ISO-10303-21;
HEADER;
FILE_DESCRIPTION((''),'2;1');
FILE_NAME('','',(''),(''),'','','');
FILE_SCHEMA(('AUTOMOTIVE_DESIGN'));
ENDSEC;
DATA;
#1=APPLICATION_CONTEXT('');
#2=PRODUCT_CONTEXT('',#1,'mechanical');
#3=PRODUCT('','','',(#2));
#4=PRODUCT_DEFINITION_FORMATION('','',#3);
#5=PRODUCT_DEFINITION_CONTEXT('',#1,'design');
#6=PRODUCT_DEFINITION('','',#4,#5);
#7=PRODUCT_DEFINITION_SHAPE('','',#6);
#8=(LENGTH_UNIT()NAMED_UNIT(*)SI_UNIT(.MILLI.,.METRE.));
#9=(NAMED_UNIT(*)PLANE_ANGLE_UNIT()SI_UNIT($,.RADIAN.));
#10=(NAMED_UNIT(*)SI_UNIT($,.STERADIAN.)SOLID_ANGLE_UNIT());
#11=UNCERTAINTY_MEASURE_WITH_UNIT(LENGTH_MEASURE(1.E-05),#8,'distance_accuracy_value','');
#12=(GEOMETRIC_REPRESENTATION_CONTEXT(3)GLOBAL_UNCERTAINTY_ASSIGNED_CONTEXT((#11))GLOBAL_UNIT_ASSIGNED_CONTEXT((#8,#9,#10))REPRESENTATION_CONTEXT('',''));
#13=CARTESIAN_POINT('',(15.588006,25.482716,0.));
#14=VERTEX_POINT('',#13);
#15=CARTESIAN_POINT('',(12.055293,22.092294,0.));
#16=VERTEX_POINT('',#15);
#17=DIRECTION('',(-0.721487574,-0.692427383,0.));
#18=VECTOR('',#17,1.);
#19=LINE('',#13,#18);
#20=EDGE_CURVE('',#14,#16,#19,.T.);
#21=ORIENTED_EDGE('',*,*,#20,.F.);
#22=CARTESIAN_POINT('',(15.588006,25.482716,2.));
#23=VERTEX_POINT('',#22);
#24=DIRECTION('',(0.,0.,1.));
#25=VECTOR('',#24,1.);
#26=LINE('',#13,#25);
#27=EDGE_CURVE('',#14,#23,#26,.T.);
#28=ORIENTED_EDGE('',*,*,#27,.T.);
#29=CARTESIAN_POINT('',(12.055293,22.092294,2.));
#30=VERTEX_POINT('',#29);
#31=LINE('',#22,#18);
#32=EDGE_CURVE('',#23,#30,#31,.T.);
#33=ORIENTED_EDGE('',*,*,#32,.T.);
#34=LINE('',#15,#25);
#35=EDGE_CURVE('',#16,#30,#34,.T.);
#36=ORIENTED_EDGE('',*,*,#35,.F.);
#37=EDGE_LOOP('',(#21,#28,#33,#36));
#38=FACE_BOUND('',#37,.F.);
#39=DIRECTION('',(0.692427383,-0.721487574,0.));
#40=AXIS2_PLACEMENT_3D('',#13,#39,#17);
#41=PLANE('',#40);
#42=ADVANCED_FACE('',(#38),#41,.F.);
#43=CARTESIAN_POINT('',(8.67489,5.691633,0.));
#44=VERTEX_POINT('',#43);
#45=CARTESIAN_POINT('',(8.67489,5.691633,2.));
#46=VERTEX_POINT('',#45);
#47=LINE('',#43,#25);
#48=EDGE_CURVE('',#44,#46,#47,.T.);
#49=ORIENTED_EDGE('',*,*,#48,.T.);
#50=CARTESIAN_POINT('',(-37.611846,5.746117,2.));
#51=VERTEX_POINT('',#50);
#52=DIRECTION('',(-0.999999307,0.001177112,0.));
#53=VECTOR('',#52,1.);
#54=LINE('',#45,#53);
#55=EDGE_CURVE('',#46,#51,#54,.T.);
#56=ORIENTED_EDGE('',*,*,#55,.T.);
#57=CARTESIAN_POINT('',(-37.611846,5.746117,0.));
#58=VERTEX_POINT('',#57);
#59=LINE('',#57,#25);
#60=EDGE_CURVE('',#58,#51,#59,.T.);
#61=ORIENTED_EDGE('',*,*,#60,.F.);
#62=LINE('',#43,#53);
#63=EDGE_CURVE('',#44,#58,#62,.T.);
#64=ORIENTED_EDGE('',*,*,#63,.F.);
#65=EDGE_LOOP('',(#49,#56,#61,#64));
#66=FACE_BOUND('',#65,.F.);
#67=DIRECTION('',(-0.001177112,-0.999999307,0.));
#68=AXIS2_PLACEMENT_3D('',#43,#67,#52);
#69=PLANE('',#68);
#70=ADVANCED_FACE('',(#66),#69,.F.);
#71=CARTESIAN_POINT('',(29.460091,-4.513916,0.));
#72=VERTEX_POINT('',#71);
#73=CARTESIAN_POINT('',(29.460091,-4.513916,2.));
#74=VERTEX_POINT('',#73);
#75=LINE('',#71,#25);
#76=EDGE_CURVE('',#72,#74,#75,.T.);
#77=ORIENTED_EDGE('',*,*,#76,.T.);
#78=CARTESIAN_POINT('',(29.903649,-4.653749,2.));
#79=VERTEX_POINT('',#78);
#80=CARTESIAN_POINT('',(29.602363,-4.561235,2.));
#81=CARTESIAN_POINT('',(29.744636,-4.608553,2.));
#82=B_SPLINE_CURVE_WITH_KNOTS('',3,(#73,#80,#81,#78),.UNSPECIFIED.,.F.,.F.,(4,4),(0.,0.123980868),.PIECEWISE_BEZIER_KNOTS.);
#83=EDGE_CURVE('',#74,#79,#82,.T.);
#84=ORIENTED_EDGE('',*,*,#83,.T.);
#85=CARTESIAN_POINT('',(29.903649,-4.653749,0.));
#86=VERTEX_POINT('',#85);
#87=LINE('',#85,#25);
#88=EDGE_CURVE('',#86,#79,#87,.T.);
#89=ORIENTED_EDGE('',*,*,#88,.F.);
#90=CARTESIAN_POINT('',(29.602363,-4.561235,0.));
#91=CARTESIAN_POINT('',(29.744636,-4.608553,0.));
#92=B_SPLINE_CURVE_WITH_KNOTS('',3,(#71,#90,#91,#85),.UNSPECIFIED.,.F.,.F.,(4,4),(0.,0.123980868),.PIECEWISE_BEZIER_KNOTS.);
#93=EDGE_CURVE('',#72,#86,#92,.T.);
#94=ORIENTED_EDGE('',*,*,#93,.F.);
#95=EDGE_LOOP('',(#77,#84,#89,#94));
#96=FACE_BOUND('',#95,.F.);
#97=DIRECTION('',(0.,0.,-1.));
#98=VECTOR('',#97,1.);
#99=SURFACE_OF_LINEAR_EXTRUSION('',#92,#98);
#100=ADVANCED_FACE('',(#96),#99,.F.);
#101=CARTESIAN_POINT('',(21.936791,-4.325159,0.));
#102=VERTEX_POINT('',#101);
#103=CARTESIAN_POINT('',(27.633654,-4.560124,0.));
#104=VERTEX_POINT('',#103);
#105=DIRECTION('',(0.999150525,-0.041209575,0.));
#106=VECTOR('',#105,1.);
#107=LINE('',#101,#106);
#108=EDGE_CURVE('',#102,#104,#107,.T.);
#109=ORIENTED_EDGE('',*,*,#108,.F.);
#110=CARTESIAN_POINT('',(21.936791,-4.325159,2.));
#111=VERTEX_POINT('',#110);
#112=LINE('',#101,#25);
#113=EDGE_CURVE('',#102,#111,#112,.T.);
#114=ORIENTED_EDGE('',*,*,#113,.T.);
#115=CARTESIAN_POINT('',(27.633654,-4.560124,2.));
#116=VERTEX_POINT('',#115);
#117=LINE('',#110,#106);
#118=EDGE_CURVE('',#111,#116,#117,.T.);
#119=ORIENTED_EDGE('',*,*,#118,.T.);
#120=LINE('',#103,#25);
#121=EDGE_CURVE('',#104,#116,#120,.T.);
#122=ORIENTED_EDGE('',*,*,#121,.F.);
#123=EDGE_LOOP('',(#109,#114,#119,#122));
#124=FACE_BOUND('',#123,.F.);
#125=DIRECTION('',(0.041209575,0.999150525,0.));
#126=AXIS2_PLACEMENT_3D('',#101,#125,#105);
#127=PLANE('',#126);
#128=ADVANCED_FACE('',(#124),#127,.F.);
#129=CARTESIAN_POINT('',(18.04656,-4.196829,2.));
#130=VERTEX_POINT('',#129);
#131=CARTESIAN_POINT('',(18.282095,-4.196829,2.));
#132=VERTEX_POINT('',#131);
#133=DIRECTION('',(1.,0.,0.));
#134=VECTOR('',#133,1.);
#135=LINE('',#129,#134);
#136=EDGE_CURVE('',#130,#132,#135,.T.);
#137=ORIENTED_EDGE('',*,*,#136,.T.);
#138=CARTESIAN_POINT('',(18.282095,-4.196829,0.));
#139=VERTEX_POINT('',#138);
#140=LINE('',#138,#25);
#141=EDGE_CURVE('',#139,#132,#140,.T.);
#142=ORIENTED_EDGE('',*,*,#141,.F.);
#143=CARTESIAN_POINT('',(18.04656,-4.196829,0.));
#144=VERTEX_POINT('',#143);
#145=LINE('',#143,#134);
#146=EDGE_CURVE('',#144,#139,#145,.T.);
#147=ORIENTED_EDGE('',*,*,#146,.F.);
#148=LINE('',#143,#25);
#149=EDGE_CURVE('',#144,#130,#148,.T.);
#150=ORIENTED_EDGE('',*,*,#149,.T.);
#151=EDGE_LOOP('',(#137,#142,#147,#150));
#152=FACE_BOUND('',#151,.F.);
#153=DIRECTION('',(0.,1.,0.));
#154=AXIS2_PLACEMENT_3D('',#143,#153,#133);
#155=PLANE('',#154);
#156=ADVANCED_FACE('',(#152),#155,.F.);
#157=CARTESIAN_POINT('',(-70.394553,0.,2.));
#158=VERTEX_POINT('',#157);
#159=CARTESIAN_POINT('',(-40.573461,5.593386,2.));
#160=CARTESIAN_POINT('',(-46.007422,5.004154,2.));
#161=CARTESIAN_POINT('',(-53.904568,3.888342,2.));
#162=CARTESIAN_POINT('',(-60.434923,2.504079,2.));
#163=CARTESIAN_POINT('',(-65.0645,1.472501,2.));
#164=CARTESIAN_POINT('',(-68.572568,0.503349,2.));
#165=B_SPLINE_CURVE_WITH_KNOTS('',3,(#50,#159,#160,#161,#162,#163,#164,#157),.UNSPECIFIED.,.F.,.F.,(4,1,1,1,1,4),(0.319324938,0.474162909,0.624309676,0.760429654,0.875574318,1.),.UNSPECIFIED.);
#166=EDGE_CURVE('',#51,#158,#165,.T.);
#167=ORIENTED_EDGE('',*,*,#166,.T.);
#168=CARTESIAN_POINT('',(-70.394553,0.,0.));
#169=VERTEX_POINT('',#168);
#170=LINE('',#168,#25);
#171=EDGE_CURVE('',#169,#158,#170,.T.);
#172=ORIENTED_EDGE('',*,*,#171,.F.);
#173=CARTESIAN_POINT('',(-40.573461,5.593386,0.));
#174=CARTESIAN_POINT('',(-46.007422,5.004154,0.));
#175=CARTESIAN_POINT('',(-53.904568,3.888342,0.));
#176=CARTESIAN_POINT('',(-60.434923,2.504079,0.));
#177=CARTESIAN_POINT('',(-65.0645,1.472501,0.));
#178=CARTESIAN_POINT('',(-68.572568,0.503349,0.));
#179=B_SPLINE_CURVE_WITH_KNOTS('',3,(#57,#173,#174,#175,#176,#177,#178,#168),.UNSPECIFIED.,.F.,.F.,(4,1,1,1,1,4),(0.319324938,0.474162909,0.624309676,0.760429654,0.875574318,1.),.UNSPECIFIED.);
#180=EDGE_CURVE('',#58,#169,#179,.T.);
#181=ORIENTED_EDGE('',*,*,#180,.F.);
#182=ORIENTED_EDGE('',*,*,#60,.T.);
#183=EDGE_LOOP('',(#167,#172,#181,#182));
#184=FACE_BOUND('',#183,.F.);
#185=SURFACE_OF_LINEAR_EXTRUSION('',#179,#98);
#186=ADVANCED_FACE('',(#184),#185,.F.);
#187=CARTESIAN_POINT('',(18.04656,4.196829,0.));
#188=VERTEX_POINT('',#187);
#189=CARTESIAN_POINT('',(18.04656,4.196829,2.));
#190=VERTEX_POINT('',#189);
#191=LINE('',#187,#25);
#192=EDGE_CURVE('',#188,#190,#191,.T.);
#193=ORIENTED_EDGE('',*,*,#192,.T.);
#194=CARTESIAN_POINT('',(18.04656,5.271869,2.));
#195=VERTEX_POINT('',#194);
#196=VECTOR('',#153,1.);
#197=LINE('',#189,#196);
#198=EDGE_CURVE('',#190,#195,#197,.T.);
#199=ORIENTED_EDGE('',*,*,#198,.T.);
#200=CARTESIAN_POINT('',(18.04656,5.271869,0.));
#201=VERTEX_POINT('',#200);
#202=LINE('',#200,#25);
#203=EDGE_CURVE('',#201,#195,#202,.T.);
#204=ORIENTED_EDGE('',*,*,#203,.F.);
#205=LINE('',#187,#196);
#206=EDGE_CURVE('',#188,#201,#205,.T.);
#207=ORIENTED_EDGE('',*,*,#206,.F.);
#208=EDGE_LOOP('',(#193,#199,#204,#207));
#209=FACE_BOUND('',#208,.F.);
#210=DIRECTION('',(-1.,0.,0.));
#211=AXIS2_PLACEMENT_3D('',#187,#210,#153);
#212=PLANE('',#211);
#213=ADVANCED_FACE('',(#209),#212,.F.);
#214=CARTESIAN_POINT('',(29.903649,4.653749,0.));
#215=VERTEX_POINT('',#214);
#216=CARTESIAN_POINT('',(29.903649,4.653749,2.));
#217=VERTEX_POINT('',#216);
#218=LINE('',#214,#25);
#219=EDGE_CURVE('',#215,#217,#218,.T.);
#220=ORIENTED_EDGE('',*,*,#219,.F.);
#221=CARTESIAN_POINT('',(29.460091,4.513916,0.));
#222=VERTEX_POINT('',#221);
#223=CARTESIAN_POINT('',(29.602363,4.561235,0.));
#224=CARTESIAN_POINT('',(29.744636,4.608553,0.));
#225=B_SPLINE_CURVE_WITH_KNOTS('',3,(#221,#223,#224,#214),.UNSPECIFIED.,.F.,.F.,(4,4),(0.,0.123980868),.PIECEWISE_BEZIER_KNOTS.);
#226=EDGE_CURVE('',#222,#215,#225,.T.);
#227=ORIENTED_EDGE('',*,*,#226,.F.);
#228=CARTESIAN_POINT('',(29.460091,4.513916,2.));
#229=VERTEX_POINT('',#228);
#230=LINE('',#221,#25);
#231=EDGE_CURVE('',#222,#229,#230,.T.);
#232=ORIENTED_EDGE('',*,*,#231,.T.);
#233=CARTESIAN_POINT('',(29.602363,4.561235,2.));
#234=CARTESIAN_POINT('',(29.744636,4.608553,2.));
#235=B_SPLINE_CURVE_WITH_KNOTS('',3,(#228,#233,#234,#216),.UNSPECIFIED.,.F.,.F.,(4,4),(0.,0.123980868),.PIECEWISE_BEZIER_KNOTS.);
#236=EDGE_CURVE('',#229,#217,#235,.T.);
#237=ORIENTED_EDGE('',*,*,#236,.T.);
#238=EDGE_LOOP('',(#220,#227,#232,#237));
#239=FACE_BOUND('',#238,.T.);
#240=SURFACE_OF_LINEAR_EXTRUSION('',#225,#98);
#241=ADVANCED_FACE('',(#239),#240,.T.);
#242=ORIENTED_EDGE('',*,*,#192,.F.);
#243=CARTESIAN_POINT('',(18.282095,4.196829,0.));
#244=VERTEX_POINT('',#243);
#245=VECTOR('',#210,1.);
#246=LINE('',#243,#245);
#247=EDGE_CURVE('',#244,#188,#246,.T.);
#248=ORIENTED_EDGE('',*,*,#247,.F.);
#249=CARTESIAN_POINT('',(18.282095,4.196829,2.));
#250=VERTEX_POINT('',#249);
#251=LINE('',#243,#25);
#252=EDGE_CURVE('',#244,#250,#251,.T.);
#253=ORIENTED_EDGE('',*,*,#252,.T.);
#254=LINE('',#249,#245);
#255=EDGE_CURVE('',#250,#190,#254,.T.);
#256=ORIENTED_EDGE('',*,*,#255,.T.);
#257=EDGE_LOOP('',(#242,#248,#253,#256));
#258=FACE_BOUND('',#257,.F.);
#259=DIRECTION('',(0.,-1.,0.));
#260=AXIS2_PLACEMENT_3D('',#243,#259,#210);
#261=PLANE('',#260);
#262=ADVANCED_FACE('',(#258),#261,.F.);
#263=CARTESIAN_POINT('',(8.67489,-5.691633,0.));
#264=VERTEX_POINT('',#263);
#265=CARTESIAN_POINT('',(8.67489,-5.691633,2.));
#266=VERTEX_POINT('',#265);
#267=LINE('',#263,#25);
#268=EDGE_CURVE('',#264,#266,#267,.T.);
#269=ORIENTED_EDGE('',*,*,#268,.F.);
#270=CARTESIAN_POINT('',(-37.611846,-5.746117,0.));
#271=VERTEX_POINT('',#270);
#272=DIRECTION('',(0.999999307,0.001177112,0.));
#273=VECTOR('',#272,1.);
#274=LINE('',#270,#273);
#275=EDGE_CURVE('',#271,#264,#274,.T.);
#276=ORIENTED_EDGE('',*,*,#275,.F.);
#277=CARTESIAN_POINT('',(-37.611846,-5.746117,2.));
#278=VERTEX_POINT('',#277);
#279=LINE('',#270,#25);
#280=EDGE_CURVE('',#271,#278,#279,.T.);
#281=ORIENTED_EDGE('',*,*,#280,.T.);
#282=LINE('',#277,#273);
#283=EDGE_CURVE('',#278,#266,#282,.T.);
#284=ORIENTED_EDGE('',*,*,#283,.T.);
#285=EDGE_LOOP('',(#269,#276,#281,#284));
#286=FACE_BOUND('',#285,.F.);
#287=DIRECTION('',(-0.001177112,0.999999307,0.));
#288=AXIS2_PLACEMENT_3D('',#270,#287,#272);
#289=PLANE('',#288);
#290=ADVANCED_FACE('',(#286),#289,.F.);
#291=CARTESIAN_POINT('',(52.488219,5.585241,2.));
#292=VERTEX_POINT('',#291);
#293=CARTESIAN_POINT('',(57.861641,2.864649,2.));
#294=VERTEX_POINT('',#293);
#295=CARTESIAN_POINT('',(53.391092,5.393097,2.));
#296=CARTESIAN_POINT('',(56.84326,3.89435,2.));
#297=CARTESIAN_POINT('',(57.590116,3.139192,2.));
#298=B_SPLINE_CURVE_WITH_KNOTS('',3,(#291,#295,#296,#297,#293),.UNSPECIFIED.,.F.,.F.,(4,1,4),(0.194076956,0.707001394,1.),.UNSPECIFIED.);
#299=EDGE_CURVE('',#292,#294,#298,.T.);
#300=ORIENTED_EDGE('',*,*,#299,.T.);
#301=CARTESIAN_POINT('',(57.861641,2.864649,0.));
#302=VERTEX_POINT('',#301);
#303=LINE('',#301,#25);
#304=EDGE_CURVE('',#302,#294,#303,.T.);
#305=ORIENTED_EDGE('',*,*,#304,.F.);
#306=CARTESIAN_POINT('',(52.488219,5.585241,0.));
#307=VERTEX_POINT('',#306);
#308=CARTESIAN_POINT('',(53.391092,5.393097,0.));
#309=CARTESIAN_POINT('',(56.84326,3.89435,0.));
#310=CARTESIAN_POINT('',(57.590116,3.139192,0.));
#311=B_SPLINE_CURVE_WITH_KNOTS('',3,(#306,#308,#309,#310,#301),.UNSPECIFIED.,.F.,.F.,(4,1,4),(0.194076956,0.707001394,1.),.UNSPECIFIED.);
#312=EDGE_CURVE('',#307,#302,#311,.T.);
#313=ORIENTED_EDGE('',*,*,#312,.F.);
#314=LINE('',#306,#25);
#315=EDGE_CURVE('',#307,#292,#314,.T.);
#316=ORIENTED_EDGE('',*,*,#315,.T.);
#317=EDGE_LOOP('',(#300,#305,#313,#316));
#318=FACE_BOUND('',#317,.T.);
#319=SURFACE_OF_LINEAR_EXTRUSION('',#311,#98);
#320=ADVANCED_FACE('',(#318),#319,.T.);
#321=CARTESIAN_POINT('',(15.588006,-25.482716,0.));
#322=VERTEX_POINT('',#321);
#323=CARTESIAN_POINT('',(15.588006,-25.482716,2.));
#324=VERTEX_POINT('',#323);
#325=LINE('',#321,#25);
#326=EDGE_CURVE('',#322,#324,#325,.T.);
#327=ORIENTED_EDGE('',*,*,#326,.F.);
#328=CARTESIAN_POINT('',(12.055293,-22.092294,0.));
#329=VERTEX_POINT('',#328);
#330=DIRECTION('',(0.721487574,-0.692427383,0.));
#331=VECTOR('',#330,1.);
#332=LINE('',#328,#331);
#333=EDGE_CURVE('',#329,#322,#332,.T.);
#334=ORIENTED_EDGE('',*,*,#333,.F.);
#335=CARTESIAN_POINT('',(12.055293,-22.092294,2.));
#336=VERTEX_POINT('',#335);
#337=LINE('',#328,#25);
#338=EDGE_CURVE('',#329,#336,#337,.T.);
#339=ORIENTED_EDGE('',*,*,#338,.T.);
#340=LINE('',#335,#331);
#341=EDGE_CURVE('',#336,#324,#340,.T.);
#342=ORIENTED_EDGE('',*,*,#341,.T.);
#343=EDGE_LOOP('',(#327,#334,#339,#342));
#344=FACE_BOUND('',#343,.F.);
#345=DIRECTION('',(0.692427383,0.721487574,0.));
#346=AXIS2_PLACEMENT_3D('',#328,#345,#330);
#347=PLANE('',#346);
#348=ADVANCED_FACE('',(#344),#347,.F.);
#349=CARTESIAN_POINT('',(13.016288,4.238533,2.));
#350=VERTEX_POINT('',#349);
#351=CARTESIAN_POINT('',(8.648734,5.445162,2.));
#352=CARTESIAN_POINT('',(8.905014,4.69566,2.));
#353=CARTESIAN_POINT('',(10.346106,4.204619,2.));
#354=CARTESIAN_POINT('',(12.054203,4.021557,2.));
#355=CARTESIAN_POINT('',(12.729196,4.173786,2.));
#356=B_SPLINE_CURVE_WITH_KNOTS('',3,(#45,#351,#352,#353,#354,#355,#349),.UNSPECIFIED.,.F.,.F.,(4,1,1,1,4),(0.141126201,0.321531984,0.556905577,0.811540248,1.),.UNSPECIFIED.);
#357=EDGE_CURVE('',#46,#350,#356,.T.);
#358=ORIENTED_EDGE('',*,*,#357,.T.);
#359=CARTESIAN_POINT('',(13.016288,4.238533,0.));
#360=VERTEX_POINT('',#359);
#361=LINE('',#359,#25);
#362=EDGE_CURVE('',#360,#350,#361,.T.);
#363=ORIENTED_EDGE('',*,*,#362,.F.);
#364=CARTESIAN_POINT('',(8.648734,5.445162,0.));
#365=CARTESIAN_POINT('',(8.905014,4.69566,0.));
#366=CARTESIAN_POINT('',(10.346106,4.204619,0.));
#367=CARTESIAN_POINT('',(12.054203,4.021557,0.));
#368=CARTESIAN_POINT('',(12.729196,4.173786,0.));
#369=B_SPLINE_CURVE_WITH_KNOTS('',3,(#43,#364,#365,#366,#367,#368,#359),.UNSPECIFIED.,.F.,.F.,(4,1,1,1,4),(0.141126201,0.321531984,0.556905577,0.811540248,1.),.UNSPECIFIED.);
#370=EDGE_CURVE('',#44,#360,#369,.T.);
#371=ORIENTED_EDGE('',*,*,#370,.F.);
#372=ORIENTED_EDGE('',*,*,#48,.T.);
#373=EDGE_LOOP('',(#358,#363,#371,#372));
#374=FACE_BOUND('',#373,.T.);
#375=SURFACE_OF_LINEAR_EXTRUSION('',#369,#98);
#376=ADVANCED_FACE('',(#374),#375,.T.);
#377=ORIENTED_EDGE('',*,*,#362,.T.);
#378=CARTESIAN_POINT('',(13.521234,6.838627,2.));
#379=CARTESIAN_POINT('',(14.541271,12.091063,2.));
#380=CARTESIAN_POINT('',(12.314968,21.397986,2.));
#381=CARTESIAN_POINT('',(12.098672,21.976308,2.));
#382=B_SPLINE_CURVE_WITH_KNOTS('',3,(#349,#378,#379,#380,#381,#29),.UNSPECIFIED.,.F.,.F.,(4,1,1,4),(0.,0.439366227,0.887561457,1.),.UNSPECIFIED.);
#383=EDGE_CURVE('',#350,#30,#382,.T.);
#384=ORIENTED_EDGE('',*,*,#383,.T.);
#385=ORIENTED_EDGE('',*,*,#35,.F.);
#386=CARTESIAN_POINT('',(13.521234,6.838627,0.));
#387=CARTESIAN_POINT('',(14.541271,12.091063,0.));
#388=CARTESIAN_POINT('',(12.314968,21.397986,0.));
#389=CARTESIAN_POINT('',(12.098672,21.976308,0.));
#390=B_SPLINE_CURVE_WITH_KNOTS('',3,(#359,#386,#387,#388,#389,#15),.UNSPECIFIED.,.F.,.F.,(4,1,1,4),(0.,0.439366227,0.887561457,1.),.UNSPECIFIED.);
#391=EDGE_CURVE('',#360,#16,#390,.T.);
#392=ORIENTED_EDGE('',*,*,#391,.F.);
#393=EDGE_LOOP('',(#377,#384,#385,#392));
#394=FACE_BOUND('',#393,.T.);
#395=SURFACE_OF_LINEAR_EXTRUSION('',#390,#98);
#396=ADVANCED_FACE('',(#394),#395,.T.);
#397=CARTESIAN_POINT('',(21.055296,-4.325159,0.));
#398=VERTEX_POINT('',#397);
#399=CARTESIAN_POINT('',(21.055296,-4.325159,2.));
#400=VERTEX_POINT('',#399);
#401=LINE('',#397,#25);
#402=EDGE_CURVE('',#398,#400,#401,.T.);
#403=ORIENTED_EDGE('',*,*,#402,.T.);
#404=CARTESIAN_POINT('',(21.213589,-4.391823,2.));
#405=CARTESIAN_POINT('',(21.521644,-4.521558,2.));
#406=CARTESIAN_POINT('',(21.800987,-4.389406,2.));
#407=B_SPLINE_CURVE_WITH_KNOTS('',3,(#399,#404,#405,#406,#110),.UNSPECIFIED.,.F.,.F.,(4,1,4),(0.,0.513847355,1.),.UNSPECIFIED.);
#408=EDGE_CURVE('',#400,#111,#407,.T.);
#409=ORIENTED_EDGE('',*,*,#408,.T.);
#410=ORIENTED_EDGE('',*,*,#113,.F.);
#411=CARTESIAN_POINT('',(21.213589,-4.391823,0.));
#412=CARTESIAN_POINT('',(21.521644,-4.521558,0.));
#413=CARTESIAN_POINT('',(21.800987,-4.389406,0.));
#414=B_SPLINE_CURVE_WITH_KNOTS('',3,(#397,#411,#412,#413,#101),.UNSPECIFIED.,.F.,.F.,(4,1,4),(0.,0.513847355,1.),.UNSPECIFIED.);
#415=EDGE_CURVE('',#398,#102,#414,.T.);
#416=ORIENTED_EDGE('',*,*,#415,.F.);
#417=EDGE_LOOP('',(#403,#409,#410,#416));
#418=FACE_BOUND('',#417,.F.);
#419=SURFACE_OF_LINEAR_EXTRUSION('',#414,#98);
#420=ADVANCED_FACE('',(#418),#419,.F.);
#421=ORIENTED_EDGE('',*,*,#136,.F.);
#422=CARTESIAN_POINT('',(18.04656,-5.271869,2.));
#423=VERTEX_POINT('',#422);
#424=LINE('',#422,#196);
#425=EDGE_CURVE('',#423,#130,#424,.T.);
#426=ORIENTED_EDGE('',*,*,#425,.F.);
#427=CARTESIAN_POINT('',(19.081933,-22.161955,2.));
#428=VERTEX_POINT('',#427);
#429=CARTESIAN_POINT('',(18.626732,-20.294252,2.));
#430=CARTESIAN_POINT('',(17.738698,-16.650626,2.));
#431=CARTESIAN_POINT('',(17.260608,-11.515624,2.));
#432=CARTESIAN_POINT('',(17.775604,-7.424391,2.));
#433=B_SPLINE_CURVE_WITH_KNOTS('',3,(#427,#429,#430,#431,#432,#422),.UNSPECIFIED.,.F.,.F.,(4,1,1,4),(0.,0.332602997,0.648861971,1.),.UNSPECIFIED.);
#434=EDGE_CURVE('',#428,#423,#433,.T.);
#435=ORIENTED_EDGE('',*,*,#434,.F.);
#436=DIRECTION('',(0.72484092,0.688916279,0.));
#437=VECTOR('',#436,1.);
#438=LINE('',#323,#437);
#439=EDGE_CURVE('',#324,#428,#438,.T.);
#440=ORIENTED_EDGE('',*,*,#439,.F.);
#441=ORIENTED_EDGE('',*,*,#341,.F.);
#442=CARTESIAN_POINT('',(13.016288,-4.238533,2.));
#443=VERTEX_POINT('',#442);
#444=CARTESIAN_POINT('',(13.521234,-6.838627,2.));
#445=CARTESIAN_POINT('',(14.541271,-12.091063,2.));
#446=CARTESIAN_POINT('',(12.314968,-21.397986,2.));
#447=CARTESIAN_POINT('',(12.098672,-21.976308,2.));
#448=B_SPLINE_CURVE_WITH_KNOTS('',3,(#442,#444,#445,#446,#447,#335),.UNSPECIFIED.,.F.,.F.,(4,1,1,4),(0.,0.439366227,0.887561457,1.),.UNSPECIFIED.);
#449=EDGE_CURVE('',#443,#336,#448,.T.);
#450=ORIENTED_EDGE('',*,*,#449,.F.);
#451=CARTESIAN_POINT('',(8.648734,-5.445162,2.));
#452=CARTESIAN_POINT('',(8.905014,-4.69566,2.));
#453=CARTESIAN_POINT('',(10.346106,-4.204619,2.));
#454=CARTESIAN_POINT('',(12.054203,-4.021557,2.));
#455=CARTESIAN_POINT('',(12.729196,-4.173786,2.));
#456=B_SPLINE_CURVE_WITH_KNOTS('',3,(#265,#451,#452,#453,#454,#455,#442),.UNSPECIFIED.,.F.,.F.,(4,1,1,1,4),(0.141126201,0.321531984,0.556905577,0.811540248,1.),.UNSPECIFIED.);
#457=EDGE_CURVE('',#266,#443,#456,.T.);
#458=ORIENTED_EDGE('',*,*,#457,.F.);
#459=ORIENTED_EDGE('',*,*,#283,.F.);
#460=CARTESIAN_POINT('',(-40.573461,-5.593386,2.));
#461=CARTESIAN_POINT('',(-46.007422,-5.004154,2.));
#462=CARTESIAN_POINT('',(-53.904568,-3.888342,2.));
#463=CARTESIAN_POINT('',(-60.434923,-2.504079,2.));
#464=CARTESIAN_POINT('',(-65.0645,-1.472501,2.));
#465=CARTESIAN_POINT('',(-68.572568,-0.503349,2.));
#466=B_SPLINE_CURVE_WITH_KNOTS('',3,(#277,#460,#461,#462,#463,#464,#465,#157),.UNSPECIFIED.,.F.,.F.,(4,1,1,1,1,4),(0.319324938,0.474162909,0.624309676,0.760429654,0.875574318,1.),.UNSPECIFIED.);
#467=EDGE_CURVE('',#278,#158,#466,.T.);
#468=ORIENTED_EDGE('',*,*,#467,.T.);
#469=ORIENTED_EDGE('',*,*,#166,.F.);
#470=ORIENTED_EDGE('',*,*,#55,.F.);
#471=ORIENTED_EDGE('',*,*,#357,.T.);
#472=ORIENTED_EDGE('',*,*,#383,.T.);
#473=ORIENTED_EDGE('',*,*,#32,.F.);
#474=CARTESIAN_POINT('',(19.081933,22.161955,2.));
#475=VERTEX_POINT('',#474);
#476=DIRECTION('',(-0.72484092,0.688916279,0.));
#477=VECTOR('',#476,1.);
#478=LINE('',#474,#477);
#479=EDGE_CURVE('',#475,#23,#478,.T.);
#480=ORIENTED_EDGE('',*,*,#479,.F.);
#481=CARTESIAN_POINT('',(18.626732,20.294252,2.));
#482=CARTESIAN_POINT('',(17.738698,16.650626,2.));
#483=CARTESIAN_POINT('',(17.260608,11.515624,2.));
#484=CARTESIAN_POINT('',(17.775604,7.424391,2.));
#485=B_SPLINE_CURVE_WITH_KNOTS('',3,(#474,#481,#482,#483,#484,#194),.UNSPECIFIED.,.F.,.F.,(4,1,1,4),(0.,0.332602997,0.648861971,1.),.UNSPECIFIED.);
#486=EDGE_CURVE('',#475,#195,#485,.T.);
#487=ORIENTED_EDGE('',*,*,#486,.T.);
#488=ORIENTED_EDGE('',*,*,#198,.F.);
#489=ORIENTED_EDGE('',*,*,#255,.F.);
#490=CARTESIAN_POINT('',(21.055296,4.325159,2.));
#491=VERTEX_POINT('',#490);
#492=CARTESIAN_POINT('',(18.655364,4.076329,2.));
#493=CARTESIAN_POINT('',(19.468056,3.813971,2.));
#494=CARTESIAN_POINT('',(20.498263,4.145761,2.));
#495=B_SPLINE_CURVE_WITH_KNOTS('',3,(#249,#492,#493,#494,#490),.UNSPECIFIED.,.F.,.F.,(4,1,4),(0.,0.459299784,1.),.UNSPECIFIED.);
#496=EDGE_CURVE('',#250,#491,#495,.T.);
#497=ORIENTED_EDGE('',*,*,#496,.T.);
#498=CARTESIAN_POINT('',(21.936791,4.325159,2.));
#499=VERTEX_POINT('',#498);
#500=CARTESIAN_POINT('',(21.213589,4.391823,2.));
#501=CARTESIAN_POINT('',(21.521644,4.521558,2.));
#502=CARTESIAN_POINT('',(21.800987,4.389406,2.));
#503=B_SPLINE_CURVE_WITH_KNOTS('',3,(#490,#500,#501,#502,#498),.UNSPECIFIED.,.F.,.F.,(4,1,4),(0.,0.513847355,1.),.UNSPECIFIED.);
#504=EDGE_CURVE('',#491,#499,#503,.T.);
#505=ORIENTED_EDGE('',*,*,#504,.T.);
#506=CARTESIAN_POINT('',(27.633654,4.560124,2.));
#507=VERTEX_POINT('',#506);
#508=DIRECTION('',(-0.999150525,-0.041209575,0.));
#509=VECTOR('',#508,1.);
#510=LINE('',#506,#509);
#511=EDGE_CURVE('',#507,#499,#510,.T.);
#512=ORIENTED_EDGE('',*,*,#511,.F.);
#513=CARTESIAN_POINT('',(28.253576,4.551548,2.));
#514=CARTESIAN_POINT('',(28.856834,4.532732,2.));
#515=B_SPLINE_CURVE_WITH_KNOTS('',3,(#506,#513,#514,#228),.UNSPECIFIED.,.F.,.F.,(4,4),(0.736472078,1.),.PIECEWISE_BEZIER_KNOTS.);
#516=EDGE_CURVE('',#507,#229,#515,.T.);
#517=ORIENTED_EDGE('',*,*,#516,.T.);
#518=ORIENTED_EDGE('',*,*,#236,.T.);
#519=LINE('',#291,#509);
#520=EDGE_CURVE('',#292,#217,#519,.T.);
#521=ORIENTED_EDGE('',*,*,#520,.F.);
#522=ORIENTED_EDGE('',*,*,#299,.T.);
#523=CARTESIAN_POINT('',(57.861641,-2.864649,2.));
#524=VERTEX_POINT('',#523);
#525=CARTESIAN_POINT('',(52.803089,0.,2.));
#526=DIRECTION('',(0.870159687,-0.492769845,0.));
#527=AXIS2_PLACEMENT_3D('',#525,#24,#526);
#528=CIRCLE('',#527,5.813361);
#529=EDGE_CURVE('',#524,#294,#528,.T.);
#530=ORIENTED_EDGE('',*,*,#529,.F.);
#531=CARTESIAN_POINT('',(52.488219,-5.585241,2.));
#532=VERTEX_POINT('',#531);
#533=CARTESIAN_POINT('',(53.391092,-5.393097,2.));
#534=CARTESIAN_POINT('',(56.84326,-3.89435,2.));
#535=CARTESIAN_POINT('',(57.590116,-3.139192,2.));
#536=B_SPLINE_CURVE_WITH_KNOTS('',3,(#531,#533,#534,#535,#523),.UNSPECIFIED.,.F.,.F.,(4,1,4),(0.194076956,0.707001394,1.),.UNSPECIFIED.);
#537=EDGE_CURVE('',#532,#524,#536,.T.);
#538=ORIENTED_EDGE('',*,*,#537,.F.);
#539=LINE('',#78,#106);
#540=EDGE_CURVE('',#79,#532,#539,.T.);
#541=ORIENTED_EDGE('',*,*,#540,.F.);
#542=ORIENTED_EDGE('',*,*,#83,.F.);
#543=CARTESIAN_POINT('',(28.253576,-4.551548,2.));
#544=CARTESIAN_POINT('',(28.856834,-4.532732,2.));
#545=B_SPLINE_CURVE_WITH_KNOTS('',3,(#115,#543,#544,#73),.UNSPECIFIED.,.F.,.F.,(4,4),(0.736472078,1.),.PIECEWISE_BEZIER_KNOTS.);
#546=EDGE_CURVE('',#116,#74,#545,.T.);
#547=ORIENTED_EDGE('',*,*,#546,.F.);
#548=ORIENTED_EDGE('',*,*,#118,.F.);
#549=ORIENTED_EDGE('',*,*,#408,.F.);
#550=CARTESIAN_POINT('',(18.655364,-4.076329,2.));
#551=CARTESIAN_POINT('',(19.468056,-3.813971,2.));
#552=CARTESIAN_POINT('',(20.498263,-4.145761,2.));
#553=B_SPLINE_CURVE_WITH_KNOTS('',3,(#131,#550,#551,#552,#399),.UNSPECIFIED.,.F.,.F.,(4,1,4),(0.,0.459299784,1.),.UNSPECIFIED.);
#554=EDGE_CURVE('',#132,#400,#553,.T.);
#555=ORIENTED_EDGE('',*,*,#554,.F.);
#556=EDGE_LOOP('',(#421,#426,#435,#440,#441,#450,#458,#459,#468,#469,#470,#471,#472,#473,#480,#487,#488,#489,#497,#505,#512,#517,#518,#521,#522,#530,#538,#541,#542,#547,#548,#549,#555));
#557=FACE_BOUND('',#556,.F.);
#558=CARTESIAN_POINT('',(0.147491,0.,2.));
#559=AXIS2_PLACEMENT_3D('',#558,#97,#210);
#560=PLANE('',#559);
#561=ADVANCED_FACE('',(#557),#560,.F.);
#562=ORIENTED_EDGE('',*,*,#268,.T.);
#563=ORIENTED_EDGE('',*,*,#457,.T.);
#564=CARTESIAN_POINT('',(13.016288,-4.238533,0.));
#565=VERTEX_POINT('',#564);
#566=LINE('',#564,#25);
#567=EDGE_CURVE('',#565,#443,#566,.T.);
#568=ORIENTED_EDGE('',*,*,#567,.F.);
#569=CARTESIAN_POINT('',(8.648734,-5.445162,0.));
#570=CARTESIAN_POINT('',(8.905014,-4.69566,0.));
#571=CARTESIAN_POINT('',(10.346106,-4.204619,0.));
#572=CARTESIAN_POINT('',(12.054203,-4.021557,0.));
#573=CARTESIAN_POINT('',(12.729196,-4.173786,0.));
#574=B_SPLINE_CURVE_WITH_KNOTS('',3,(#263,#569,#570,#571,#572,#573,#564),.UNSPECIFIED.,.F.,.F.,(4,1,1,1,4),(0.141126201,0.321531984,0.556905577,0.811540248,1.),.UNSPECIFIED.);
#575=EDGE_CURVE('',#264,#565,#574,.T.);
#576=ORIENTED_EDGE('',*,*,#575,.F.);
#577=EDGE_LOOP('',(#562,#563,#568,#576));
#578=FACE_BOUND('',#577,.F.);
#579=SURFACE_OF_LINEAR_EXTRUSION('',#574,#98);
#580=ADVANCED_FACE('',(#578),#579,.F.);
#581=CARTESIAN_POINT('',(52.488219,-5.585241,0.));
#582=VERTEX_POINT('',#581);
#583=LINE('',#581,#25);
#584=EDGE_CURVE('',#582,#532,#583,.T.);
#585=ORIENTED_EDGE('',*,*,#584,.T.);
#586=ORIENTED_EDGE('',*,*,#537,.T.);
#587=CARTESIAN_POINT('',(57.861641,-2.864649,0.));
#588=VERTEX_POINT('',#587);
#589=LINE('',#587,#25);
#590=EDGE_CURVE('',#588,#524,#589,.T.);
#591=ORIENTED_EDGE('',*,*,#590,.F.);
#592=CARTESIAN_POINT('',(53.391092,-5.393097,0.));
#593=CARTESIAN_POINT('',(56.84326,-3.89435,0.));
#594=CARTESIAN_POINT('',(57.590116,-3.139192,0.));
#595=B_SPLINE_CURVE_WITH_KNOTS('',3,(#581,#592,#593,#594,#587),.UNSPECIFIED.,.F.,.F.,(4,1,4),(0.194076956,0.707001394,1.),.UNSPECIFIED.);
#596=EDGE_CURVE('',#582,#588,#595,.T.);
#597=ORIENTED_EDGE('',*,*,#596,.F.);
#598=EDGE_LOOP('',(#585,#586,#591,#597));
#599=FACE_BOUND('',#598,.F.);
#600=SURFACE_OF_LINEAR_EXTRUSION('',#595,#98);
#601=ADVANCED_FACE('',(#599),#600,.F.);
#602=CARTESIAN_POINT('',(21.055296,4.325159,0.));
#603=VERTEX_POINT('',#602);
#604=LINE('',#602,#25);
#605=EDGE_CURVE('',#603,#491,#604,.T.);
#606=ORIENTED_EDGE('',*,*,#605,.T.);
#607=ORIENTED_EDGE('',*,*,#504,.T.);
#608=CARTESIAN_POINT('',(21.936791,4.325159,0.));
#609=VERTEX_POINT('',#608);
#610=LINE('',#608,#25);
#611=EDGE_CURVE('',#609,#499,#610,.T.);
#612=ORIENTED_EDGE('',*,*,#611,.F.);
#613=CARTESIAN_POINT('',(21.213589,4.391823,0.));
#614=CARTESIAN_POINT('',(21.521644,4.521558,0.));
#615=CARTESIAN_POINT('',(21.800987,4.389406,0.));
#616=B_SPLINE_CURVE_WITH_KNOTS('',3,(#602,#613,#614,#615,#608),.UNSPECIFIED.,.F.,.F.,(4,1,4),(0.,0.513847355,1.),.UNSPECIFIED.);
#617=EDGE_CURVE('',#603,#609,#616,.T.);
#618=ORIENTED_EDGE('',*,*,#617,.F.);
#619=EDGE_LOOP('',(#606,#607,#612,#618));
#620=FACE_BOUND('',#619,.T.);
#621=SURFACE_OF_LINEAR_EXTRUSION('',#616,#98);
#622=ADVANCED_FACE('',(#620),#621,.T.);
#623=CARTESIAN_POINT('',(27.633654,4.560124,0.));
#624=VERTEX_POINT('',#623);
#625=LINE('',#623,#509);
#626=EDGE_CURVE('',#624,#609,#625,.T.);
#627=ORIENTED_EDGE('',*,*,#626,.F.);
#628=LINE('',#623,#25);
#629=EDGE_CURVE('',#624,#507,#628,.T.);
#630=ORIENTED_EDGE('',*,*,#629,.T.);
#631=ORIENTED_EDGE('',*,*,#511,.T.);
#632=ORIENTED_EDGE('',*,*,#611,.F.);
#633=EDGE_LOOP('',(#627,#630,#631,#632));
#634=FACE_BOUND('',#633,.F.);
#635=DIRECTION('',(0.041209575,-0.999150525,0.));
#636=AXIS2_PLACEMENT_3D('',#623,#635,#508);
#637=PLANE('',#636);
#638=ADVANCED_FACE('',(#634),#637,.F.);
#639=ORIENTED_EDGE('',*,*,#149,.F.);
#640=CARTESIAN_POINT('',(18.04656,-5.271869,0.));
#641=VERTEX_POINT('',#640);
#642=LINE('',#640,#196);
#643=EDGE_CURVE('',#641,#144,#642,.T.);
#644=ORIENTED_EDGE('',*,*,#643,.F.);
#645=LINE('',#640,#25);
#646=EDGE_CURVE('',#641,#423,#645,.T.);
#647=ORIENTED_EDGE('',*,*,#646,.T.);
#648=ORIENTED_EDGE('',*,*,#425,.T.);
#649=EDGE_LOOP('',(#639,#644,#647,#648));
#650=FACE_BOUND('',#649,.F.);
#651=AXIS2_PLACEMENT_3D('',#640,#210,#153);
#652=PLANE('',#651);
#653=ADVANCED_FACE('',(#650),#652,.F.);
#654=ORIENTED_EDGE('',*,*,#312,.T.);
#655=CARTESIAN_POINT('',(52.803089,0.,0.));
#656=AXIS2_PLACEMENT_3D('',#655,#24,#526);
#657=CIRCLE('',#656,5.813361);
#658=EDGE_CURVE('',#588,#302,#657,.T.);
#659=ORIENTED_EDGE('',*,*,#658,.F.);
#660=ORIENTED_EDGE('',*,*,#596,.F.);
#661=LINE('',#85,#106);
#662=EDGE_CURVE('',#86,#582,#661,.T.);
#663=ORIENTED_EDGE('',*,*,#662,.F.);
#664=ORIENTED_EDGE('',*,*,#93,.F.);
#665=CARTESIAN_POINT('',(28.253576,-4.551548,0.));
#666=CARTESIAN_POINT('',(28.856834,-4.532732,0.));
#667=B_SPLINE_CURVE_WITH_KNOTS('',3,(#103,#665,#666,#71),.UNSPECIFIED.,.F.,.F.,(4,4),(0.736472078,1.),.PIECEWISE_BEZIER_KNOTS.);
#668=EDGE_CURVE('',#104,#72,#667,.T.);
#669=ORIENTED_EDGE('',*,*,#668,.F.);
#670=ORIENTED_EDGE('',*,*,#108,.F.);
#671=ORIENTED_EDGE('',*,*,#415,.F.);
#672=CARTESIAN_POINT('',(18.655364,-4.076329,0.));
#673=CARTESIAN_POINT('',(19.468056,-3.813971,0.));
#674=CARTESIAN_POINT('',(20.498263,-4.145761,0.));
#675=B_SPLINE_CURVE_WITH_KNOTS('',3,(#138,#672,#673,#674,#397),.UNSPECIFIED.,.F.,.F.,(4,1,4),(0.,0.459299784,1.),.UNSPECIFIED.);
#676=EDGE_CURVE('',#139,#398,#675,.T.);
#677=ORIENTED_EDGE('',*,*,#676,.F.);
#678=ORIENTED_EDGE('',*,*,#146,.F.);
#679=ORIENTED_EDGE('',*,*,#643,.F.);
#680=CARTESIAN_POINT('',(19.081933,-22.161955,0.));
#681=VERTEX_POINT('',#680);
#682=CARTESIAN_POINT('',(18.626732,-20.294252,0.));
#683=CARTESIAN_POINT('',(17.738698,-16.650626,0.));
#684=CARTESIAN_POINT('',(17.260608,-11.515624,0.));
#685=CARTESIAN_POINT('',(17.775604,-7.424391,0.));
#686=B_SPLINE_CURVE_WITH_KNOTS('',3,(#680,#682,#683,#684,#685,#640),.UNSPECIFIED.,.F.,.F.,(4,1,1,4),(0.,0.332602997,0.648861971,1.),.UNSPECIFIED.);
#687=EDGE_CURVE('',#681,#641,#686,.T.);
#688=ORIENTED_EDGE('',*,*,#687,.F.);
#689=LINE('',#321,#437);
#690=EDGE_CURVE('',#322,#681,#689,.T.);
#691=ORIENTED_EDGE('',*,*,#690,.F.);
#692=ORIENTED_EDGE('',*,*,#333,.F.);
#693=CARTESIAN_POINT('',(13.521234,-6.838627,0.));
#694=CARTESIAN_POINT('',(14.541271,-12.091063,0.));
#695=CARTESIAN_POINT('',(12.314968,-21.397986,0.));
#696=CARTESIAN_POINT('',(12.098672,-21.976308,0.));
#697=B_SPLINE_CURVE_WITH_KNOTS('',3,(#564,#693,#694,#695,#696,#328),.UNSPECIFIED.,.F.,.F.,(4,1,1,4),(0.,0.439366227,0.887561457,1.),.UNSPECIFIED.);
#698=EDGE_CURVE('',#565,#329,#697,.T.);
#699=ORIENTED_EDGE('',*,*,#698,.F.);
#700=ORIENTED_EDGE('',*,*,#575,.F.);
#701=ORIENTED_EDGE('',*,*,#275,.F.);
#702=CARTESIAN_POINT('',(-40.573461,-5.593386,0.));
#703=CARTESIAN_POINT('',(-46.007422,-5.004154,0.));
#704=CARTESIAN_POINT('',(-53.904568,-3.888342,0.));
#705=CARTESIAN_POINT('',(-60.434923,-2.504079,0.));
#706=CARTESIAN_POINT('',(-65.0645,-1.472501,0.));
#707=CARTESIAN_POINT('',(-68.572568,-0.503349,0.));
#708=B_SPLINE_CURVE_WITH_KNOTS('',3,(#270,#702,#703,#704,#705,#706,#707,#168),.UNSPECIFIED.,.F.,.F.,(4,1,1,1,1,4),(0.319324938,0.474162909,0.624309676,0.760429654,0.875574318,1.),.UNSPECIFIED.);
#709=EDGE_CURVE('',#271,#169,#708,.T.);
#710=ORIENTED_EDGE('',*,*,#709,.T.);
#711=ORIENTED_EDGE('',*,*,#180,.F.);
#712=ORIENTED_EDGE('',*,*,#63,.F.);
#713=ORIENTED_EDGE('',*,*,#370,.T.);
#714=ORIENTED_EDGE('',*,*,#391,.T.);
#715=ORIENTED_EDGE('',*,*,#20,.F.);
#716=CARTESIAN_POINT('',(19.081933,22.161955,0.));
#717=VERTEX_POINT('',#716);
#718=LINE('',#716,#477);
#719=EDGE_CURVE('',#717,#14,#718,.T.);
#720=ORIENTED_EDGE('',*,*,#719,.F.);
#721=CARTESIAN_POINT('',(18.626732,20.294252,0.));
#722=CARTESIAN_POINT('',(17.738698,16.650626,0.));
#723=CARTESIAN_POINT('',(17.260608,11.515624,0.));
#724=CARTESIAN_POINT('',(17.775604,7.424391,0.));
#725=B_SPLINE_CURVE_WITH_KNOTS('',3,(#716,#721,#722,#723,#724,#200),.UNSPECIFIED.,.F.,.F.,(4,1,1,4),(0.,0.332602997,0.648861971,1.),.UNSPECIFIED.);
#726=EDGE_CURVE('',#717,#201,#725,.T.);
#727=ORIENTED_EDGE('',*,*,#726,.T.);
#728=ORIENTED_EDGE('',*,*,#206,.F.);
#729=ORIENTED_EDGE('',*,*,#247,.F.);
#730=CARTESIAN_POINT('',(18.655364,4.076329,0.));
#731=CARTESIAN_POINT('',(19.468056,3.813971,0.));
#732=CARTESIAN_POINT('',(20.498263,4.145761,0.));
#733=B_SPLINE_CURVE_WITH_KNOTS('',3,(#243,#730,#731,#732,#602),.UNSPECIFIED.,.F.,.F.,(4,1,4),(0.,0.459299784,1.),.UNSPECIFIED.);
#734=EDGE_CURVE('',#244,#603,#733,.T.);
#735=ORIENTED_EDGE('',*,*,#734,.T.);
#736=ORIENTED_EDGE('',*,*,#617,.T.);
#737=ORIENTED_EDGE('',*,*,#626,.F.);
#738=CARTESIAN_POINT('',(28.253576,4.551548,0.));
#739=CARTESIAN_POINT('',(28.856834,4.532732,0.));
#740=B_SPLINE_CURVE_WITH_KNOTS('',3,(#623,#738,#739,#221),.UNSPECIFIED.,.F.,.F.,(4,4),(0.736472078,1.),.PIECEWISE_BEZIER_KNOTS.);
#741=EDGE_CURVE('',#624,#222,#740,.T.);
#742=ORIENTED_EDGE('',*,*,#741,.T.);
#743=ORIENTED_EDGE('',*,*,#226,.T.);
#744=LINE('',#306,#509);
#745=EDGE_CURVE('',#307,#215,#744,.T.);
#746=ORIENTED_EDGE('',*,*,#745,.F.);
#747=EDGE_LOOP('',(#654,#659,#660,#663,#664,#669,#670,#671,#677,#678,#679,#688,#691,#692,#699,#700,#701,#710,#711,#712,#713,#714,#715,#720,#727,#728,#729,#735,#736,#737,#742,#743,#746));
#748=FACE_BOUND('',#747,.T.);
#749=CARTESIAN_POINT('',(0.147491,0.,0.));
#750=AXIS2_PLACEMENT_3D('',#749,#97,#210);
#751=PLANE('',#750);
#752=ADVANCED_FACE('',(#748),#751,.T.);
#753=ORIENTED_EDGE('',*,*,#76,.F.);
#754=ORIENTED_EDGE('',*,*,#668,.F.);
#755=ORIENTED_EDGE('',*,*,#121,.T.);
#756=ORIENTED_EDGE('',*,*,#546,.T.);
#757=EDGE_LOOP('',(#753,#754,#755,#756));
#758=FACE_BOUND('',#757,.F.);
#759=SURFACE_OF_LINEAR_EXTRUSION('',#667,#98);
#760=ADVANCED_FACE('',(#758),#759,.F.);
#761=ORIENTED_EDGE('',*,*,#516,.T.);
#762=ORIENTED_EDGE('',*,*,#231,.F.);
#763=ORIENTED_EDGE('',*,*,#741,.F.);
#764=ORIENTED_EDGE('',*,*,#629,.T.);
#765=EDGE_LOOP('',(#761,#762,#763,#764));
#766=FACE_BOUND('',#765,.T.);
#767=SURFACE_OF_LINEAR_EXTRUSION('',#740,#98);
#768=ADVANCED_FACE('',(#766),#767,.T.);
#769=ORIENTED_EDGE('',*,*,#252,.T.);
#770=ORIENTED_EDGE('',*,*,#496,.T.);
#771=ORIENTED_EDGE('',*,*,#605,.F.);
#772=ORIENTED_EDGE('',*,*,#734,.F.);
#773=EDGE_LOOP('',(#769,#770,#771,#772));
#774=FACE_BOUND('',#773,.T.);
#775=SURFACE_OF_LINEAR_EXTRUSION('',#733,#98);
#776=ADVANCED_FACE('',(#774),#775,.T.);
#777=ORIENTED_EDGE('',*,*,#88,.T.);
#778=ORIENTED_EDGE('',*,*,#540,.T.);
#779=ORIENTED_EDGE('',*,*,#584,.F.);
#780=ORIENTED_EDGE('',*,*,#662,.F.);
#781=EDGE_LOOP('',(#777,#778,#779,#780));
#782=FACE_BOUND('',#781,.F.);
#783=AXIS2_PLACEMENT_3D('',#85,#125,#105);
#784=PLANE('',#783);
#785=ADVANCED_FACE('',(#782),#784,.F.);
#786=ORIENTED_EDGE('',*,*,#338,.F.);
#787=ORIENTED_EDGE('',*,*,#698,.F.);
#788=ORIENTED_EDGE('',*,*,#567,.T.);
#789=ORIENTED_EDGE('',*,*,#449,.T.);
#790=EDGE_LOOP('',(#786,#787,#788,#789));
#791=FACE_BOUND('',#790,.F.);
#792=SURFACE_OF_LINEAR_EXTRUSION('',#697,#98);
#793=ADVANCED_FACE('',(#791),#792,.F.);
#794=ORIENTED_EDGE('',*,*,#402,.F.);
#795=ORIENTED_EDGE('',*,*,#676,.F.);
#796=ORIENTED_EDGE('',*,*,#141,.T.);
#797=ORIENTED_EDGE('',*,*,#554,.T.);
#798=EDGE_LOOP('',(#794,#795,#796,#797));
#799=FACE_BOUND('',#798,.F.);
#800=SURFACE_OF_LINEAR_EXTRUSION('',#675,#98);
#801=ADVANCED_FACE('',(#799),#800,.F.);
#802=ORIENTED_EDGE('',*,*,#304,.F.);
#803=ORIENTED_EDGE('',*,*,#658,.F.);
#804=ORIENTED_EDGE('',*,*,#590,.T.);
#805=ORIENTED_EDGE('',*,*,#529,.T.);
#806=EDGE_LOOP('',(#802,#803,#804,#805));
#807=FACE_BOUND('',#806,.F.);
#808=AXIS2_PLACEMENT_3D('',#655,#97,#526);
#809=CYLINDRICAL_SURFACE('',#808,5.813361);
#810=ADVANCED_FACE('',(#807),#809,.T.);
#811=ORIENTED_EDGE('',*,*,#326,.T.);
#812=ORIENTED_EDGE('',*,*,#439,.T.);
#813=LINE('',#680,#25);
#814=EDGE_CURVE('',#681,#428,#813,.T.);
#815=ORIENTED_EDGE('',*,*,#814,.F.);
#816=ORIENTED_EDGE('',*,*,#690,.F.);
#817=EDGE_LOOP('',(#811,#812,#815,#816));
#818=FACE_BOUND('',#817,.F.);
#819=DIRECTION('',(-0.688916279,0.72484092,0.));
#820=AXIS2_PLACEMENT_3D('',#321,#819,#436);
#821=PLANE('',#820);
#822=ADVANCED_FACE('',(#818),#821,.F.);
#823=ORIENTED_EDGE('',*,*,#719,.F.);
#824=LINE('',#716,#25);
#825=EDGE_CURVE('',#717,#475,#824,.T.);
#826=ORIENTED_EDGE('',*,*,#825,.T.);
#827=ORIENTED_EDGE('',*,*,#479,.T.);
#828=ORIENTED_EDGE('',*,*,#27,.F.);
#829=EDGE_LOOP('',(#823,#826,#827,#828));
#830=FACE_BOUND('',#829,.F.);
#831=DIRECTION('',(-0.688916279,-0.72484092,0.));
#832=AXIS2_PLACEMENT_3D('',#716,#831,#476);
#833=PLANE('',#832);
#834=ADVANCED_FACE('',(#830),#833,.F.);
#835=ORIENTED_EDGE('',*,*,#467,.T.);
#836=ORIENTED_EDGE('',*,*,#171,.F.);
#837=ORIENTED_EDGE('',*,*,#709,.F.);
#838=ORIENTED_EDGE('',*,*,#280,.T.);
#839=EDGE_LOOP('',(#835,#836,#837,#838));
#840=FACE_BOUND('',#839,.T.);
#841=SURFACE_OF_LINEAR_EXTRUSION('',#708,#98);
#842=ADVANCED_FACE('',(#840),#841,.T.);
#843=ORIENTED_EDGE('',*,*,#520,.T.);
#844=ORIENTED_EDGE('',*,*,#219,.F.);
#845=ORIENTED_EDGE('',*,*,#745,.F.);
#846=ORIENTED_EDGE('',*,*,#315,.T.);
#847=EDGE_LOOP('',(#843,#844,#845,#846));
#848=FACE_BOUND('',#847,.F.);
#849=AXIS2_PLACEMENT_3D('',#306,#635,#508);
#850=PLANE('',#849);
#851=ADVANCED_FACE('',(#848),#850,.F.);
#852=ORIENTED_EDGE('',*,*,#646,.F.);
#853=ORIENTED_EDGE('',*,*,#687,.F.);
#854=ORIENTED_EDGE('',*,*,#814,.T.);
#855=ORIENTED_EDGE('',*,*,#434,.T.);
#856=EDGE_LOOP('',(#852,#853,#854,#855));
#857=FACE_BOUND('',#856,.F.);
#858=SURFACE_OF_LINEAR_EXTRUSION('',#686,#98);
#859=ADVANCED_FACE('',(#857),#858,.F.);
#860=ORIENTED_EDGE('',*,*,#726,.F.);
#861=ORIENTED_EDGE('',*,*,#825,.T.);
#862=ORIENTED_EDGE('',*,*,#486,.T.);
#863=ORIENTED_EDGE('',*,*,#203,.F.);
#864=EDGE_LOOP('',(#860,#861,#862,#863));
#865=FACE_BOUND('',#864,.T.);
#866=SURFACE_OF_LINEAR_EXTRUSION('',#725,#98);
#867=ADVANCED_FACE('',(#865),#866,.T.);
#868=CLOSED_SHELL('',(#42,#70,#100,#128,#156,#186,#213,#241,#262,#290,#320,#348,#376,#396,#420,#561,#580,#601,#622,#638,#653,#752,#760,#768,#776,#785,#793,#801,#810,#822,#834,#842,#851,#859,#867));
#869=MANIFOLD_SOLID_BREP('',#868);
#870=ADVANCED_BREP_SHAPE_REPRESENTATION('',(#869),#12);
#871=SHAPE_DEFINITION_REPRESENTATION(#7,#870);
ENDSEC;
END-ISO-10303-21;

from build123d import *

# Parameters (mm, degrees)
F1_DEPTH = 2


with BuildPart() as f1:
    # F0 (on Top) → F1 (new body)
    with BuildSketch(Plane.XY):
        with BuildLine():
            add(Edge.make_bspline(
                [(8.6748898029, 5.6916326284), (8.6487335954, 5.4451622036), (8.9050139712, 4.6956597308), (10.3461055042, 4.2046193666), (12.0542033217, 4.0215565005), (12.7291959786, 4.1737857422), (13.0162881687, 4.2385328561)],
                knots=[0.1411262008, 0.1411262008, 0.1411262008, 0.1411262008, 0.3215319836, 0.5569055766, 0.8115402483, 1, 1, 1, 1], degree=3))
            Line((8.6748898029, 5.6916326284), (-37.6118458807, 5.7461173274))
            add(Edge.make_bspline(
                [(-37.6118458807, 5.7461173274), (-40.5734612696, 5.5933859506), (-46.0074223206, 5.0041541834), (-53.904567956, 3.8883420379), (-60.4349233984, 2.5040791618), (-65.0644995905, 1.4725007887), (-68.5725675359, 0.5033486653), (-70.3945532441, 0)],
                knots=[0.3193249377, 0.3193249377, 0.3193249377, 0.3193249377, 0.4741629094, 0.6243096755, 0.7604296541, 0.8755743181, 1, 1, 1, 1], degree=3))
            add(Edge.make_bspline(
                [(-37.6118458807, -5.7461173274), (-40.5734612696, -5.5933859506), (-46.0074223206, -5.0041541834), (-53.904567956, -3.8883420379), (-60.4349233984, -2.5040791618), (-65.0644995905, -1.4725007887), (-68.5725675359, -0.5033486653), (-70.3945532441, 0)],
                knots=[0.3193249377, 0.3193249377, 0.3193249377, 0.3193249377, 0.4741629094, 0.6243096755, 0.7604296541, 0.8755743181, 1, 1, 1, 1], degree=3))
            Line((-37.6118458807, -5.7461173274), (8.6748898029, -5.6916326284))
            add(Edge.make_bspline(
                [(8.6748898029, -5.6916326284), (8.6487335954, -5.4451622036), (8.9050139712, -4.6956597308), (10.3461055042, -4.2046193666), (12.0542033217, -4.0215565005), (12.7291959786, -4.1737857422), (13.0162881687, -4.2385328561)],
                knots=[0.1411262008, 0.1411262008, 0.1411262008, 0.1411262008, 0.3215319836, 0.5569055766, 0.8115402483, 1, 1, 1, 1], degree=3))
            add(Edge.make_bspline(
                [(13.0162881687, -4.2385328561), (13.5212335751, -6.8386267952), (14.5412711945, -12.0910631935), (12.3149675559, -21.397985611), (12.0986721053, -21.9763078704), (12.0552927256, -22.0922939479)],
                knots=[0, 0, 0, 0, 0.4393662274, 0.887561457, 1, 1, 1, 1], degree=3))
            Line((12.0552927256, -22.0922939479), (15.5880060047, -25.4827160388))
            Line((15.5880060047, -25.4827160388), (19.0819334239, -22.1619550139))
            add(Edge.make_bspline(
                [(19.0819334239, -22.1619550139), (18.6267322874, -20.294252499), (17.7386984759, -16.6506258682), (17.2606082512, -11.5156236051), (17.7756044656, -7.4243914642), (18.0465597659, -5.2718687803)],
                knots=[0, 0, 0, 0, 0.3326029965, 0.6488619712, 1, 1, 1, 1], degree=3))
            Line((18.0465597659, -5.2718687803), (18.0465597659, -4.1968291625))
            Line((18.0465597659, -4.1968291625), (18.2820949703, -4.1968291625))
            add(Edge.make_bspline(
                [(18.2820949703, -4.1968291625), (18.6553641024, -4.0763285269), (19.4680558232, -3.8139712612), (20.4982628837, -4.1457607251), (21.0552960634, -4.3251593597)],
                knots=[0, 0, 0, 0, 0.4592997844, 1, 1, 1, 1], degree=3))
            add(Edge.make_bspline(
                [(21.0552960634, -4.3251593597), (21.2135892272, -4.39182334), (21.5216440654, -4.5215583278), (21.8009874785, -4.3894057062), (21.9367910177, -4.3251593597)],
                knots=[0, 0, 0, 0, 0.5138473549, 1, 1, 1, 1], degree=3))
            Line((21.9367910177, -4.3251593597), (27.6336535588, -4.5601242409))
            add(Edge.make_bspline(
                [(27.6336535588, -4.5601242409), (28.2535762385, -4.5515479471), (28.8568336912, -4.5327320205), (29.4600911438, -4.5139160939)],
                knots=[0.7364720785, 0.7364720785, 0.7364720785, 0.7364720785, 1, 1, 1, 1], degree=3))
            add(Edge.make_bspline(
                [(29.4600911438, -4.5139160939), (29.602363452, -4.5612346279), (29.7446357601, -4.6085531619), (29.9036486376, -4.6537493056)],
                knots=[0, 0, 0, 0, 0.1239808677, 0.1239808677, 0.1239808677, 0.1239808677], degree=3))
            Line((29.9036486376, -4.6537493056), (52.4882189929, -5.5852411315))
            add(Edge.make_bspline(
                [(52.4882189929, -5.5852411315), (53.3910924323, -5.3930971357), (56.8432596926, -3.8943500714), (57.5901163978, -3.1391917956), (57.8616410494, -2.8646490537)],
                knots=[0.1940769563, 0.1940769563, 0.1940769563, 0.1940769563, 0.7070013938, 1, 1, 1, 1], degree=3))
            ThreePointArc((57.8616410494, -2.8646490537), (58.6164496784, 0), (57.8616410494, 2.8646490537))
            add(Edge.make_bspline(
                [(52.4882189929, 5.5852411315), (53.3910924323, 5.3930971357), (56.8432596926, 3.8943500714), (57.5901163978, 3.1391917956), (57.8616410494, 2.8646490537)],
                knots=[0.1940769563, 0.1940769563, 0.1940769563, 0.1940769563, 0.7070013938, 1, 1, 1, 1], degree=3))
            Line((52.4882189929, 5.5852411315), (29.9036486376, 4.6537493056))
            add(Edge.make_bspline(
                [(29.4600911438, 4.5139160939), (29.602363452, 4.5612346279), (29.7446357601, 4.6085531619), (29.9036486376, 4.6537493056)],
                knots=[0, 0, 0, 0, 0.1239808677, 0.1239808677, 0.1239808677, 0.1239808677], degree=3))
            add(Edge.make_bspline(
                [(27.6336535588, 4.5601242409), (28.2535762385, 4.5515479471), (28.8568336912, 4.5327320205), (29.4600911438, 4.5139160939)],
                knots=[0.7364720785, 0.7364720785, 0.7364720785, 0.7364720785, 1, 1, 1, 1], degree=3))
            Line((27.6336535588, 4.5601242409), (21.9367910177, 4.3251593597))
            add(Edge.make_bspline(
                [(21.0552960634, 4.3251593597), (21.2135892272, 4.39182334), (21.5216440654, 4.5215583278), (21.8009874785, 4.3894057062), (21.9367910177, 4.3251593597)],
                knots=[0, 0, 0, 0, 0.5138473549, 1, 1, 1, 1], degree=3))
            add(Edge.make_bspline(
                [(18.2820949703, 4.1968291625), (18.6553641024, 4.0763285269), (19.4680558232, 3.8139712612), (20.4982628837, 4.1457607251), (21.0552960634, 4.3251593597)],
                knots=[0, 0, 0, 0, 0.4592997844, 1, 1, 1, 1], degree=3))
            Line((18.2820949703, 4.1968291625), (18.0465597659, 4.1968291625))
            Line((18.0465597659, 4.1968291625), (18.0465597659, 5.2718687803))
            add(Edge.make_bspline(
                [(19.0819334239, 22.1619550139), (18.6267322874, 20.294252499), (17.7386984759, 16.6506258682), (17.2606082512, 11.5156236051), (17.7756044656, 7.4243914642), (18.0465597659, 5.2718687803)],
                knots=[0, 0, 0, 0, 0.3326029965, 0.6488619712, 1, 1, 1, 1], degree=3))
            Line((19.0819334239, 22.1619550139), (15.5880060047, 25.4827160388))
            Line((15.5880060047, 25.4827160388), (12.0552927256, 22.0922939479))
            add(Edge.make_bspline(
                [(13.0162881687, 4.2385328561), (13.5212335751, 6.8386267952), (14.5412711945, 12.0910631935), (12.3149675559, 21.397985611), (12.0986721053, 21.9763078704), (12.0552927256, 22.0922939479)],
                knots=[0, 0, 0, 0, 0.4393662274, 0.887561457, 1, 1, 1, 1], degree=3))
        make_face()
    extrude(amount=F1_DEPTH)


solid = f1.part
